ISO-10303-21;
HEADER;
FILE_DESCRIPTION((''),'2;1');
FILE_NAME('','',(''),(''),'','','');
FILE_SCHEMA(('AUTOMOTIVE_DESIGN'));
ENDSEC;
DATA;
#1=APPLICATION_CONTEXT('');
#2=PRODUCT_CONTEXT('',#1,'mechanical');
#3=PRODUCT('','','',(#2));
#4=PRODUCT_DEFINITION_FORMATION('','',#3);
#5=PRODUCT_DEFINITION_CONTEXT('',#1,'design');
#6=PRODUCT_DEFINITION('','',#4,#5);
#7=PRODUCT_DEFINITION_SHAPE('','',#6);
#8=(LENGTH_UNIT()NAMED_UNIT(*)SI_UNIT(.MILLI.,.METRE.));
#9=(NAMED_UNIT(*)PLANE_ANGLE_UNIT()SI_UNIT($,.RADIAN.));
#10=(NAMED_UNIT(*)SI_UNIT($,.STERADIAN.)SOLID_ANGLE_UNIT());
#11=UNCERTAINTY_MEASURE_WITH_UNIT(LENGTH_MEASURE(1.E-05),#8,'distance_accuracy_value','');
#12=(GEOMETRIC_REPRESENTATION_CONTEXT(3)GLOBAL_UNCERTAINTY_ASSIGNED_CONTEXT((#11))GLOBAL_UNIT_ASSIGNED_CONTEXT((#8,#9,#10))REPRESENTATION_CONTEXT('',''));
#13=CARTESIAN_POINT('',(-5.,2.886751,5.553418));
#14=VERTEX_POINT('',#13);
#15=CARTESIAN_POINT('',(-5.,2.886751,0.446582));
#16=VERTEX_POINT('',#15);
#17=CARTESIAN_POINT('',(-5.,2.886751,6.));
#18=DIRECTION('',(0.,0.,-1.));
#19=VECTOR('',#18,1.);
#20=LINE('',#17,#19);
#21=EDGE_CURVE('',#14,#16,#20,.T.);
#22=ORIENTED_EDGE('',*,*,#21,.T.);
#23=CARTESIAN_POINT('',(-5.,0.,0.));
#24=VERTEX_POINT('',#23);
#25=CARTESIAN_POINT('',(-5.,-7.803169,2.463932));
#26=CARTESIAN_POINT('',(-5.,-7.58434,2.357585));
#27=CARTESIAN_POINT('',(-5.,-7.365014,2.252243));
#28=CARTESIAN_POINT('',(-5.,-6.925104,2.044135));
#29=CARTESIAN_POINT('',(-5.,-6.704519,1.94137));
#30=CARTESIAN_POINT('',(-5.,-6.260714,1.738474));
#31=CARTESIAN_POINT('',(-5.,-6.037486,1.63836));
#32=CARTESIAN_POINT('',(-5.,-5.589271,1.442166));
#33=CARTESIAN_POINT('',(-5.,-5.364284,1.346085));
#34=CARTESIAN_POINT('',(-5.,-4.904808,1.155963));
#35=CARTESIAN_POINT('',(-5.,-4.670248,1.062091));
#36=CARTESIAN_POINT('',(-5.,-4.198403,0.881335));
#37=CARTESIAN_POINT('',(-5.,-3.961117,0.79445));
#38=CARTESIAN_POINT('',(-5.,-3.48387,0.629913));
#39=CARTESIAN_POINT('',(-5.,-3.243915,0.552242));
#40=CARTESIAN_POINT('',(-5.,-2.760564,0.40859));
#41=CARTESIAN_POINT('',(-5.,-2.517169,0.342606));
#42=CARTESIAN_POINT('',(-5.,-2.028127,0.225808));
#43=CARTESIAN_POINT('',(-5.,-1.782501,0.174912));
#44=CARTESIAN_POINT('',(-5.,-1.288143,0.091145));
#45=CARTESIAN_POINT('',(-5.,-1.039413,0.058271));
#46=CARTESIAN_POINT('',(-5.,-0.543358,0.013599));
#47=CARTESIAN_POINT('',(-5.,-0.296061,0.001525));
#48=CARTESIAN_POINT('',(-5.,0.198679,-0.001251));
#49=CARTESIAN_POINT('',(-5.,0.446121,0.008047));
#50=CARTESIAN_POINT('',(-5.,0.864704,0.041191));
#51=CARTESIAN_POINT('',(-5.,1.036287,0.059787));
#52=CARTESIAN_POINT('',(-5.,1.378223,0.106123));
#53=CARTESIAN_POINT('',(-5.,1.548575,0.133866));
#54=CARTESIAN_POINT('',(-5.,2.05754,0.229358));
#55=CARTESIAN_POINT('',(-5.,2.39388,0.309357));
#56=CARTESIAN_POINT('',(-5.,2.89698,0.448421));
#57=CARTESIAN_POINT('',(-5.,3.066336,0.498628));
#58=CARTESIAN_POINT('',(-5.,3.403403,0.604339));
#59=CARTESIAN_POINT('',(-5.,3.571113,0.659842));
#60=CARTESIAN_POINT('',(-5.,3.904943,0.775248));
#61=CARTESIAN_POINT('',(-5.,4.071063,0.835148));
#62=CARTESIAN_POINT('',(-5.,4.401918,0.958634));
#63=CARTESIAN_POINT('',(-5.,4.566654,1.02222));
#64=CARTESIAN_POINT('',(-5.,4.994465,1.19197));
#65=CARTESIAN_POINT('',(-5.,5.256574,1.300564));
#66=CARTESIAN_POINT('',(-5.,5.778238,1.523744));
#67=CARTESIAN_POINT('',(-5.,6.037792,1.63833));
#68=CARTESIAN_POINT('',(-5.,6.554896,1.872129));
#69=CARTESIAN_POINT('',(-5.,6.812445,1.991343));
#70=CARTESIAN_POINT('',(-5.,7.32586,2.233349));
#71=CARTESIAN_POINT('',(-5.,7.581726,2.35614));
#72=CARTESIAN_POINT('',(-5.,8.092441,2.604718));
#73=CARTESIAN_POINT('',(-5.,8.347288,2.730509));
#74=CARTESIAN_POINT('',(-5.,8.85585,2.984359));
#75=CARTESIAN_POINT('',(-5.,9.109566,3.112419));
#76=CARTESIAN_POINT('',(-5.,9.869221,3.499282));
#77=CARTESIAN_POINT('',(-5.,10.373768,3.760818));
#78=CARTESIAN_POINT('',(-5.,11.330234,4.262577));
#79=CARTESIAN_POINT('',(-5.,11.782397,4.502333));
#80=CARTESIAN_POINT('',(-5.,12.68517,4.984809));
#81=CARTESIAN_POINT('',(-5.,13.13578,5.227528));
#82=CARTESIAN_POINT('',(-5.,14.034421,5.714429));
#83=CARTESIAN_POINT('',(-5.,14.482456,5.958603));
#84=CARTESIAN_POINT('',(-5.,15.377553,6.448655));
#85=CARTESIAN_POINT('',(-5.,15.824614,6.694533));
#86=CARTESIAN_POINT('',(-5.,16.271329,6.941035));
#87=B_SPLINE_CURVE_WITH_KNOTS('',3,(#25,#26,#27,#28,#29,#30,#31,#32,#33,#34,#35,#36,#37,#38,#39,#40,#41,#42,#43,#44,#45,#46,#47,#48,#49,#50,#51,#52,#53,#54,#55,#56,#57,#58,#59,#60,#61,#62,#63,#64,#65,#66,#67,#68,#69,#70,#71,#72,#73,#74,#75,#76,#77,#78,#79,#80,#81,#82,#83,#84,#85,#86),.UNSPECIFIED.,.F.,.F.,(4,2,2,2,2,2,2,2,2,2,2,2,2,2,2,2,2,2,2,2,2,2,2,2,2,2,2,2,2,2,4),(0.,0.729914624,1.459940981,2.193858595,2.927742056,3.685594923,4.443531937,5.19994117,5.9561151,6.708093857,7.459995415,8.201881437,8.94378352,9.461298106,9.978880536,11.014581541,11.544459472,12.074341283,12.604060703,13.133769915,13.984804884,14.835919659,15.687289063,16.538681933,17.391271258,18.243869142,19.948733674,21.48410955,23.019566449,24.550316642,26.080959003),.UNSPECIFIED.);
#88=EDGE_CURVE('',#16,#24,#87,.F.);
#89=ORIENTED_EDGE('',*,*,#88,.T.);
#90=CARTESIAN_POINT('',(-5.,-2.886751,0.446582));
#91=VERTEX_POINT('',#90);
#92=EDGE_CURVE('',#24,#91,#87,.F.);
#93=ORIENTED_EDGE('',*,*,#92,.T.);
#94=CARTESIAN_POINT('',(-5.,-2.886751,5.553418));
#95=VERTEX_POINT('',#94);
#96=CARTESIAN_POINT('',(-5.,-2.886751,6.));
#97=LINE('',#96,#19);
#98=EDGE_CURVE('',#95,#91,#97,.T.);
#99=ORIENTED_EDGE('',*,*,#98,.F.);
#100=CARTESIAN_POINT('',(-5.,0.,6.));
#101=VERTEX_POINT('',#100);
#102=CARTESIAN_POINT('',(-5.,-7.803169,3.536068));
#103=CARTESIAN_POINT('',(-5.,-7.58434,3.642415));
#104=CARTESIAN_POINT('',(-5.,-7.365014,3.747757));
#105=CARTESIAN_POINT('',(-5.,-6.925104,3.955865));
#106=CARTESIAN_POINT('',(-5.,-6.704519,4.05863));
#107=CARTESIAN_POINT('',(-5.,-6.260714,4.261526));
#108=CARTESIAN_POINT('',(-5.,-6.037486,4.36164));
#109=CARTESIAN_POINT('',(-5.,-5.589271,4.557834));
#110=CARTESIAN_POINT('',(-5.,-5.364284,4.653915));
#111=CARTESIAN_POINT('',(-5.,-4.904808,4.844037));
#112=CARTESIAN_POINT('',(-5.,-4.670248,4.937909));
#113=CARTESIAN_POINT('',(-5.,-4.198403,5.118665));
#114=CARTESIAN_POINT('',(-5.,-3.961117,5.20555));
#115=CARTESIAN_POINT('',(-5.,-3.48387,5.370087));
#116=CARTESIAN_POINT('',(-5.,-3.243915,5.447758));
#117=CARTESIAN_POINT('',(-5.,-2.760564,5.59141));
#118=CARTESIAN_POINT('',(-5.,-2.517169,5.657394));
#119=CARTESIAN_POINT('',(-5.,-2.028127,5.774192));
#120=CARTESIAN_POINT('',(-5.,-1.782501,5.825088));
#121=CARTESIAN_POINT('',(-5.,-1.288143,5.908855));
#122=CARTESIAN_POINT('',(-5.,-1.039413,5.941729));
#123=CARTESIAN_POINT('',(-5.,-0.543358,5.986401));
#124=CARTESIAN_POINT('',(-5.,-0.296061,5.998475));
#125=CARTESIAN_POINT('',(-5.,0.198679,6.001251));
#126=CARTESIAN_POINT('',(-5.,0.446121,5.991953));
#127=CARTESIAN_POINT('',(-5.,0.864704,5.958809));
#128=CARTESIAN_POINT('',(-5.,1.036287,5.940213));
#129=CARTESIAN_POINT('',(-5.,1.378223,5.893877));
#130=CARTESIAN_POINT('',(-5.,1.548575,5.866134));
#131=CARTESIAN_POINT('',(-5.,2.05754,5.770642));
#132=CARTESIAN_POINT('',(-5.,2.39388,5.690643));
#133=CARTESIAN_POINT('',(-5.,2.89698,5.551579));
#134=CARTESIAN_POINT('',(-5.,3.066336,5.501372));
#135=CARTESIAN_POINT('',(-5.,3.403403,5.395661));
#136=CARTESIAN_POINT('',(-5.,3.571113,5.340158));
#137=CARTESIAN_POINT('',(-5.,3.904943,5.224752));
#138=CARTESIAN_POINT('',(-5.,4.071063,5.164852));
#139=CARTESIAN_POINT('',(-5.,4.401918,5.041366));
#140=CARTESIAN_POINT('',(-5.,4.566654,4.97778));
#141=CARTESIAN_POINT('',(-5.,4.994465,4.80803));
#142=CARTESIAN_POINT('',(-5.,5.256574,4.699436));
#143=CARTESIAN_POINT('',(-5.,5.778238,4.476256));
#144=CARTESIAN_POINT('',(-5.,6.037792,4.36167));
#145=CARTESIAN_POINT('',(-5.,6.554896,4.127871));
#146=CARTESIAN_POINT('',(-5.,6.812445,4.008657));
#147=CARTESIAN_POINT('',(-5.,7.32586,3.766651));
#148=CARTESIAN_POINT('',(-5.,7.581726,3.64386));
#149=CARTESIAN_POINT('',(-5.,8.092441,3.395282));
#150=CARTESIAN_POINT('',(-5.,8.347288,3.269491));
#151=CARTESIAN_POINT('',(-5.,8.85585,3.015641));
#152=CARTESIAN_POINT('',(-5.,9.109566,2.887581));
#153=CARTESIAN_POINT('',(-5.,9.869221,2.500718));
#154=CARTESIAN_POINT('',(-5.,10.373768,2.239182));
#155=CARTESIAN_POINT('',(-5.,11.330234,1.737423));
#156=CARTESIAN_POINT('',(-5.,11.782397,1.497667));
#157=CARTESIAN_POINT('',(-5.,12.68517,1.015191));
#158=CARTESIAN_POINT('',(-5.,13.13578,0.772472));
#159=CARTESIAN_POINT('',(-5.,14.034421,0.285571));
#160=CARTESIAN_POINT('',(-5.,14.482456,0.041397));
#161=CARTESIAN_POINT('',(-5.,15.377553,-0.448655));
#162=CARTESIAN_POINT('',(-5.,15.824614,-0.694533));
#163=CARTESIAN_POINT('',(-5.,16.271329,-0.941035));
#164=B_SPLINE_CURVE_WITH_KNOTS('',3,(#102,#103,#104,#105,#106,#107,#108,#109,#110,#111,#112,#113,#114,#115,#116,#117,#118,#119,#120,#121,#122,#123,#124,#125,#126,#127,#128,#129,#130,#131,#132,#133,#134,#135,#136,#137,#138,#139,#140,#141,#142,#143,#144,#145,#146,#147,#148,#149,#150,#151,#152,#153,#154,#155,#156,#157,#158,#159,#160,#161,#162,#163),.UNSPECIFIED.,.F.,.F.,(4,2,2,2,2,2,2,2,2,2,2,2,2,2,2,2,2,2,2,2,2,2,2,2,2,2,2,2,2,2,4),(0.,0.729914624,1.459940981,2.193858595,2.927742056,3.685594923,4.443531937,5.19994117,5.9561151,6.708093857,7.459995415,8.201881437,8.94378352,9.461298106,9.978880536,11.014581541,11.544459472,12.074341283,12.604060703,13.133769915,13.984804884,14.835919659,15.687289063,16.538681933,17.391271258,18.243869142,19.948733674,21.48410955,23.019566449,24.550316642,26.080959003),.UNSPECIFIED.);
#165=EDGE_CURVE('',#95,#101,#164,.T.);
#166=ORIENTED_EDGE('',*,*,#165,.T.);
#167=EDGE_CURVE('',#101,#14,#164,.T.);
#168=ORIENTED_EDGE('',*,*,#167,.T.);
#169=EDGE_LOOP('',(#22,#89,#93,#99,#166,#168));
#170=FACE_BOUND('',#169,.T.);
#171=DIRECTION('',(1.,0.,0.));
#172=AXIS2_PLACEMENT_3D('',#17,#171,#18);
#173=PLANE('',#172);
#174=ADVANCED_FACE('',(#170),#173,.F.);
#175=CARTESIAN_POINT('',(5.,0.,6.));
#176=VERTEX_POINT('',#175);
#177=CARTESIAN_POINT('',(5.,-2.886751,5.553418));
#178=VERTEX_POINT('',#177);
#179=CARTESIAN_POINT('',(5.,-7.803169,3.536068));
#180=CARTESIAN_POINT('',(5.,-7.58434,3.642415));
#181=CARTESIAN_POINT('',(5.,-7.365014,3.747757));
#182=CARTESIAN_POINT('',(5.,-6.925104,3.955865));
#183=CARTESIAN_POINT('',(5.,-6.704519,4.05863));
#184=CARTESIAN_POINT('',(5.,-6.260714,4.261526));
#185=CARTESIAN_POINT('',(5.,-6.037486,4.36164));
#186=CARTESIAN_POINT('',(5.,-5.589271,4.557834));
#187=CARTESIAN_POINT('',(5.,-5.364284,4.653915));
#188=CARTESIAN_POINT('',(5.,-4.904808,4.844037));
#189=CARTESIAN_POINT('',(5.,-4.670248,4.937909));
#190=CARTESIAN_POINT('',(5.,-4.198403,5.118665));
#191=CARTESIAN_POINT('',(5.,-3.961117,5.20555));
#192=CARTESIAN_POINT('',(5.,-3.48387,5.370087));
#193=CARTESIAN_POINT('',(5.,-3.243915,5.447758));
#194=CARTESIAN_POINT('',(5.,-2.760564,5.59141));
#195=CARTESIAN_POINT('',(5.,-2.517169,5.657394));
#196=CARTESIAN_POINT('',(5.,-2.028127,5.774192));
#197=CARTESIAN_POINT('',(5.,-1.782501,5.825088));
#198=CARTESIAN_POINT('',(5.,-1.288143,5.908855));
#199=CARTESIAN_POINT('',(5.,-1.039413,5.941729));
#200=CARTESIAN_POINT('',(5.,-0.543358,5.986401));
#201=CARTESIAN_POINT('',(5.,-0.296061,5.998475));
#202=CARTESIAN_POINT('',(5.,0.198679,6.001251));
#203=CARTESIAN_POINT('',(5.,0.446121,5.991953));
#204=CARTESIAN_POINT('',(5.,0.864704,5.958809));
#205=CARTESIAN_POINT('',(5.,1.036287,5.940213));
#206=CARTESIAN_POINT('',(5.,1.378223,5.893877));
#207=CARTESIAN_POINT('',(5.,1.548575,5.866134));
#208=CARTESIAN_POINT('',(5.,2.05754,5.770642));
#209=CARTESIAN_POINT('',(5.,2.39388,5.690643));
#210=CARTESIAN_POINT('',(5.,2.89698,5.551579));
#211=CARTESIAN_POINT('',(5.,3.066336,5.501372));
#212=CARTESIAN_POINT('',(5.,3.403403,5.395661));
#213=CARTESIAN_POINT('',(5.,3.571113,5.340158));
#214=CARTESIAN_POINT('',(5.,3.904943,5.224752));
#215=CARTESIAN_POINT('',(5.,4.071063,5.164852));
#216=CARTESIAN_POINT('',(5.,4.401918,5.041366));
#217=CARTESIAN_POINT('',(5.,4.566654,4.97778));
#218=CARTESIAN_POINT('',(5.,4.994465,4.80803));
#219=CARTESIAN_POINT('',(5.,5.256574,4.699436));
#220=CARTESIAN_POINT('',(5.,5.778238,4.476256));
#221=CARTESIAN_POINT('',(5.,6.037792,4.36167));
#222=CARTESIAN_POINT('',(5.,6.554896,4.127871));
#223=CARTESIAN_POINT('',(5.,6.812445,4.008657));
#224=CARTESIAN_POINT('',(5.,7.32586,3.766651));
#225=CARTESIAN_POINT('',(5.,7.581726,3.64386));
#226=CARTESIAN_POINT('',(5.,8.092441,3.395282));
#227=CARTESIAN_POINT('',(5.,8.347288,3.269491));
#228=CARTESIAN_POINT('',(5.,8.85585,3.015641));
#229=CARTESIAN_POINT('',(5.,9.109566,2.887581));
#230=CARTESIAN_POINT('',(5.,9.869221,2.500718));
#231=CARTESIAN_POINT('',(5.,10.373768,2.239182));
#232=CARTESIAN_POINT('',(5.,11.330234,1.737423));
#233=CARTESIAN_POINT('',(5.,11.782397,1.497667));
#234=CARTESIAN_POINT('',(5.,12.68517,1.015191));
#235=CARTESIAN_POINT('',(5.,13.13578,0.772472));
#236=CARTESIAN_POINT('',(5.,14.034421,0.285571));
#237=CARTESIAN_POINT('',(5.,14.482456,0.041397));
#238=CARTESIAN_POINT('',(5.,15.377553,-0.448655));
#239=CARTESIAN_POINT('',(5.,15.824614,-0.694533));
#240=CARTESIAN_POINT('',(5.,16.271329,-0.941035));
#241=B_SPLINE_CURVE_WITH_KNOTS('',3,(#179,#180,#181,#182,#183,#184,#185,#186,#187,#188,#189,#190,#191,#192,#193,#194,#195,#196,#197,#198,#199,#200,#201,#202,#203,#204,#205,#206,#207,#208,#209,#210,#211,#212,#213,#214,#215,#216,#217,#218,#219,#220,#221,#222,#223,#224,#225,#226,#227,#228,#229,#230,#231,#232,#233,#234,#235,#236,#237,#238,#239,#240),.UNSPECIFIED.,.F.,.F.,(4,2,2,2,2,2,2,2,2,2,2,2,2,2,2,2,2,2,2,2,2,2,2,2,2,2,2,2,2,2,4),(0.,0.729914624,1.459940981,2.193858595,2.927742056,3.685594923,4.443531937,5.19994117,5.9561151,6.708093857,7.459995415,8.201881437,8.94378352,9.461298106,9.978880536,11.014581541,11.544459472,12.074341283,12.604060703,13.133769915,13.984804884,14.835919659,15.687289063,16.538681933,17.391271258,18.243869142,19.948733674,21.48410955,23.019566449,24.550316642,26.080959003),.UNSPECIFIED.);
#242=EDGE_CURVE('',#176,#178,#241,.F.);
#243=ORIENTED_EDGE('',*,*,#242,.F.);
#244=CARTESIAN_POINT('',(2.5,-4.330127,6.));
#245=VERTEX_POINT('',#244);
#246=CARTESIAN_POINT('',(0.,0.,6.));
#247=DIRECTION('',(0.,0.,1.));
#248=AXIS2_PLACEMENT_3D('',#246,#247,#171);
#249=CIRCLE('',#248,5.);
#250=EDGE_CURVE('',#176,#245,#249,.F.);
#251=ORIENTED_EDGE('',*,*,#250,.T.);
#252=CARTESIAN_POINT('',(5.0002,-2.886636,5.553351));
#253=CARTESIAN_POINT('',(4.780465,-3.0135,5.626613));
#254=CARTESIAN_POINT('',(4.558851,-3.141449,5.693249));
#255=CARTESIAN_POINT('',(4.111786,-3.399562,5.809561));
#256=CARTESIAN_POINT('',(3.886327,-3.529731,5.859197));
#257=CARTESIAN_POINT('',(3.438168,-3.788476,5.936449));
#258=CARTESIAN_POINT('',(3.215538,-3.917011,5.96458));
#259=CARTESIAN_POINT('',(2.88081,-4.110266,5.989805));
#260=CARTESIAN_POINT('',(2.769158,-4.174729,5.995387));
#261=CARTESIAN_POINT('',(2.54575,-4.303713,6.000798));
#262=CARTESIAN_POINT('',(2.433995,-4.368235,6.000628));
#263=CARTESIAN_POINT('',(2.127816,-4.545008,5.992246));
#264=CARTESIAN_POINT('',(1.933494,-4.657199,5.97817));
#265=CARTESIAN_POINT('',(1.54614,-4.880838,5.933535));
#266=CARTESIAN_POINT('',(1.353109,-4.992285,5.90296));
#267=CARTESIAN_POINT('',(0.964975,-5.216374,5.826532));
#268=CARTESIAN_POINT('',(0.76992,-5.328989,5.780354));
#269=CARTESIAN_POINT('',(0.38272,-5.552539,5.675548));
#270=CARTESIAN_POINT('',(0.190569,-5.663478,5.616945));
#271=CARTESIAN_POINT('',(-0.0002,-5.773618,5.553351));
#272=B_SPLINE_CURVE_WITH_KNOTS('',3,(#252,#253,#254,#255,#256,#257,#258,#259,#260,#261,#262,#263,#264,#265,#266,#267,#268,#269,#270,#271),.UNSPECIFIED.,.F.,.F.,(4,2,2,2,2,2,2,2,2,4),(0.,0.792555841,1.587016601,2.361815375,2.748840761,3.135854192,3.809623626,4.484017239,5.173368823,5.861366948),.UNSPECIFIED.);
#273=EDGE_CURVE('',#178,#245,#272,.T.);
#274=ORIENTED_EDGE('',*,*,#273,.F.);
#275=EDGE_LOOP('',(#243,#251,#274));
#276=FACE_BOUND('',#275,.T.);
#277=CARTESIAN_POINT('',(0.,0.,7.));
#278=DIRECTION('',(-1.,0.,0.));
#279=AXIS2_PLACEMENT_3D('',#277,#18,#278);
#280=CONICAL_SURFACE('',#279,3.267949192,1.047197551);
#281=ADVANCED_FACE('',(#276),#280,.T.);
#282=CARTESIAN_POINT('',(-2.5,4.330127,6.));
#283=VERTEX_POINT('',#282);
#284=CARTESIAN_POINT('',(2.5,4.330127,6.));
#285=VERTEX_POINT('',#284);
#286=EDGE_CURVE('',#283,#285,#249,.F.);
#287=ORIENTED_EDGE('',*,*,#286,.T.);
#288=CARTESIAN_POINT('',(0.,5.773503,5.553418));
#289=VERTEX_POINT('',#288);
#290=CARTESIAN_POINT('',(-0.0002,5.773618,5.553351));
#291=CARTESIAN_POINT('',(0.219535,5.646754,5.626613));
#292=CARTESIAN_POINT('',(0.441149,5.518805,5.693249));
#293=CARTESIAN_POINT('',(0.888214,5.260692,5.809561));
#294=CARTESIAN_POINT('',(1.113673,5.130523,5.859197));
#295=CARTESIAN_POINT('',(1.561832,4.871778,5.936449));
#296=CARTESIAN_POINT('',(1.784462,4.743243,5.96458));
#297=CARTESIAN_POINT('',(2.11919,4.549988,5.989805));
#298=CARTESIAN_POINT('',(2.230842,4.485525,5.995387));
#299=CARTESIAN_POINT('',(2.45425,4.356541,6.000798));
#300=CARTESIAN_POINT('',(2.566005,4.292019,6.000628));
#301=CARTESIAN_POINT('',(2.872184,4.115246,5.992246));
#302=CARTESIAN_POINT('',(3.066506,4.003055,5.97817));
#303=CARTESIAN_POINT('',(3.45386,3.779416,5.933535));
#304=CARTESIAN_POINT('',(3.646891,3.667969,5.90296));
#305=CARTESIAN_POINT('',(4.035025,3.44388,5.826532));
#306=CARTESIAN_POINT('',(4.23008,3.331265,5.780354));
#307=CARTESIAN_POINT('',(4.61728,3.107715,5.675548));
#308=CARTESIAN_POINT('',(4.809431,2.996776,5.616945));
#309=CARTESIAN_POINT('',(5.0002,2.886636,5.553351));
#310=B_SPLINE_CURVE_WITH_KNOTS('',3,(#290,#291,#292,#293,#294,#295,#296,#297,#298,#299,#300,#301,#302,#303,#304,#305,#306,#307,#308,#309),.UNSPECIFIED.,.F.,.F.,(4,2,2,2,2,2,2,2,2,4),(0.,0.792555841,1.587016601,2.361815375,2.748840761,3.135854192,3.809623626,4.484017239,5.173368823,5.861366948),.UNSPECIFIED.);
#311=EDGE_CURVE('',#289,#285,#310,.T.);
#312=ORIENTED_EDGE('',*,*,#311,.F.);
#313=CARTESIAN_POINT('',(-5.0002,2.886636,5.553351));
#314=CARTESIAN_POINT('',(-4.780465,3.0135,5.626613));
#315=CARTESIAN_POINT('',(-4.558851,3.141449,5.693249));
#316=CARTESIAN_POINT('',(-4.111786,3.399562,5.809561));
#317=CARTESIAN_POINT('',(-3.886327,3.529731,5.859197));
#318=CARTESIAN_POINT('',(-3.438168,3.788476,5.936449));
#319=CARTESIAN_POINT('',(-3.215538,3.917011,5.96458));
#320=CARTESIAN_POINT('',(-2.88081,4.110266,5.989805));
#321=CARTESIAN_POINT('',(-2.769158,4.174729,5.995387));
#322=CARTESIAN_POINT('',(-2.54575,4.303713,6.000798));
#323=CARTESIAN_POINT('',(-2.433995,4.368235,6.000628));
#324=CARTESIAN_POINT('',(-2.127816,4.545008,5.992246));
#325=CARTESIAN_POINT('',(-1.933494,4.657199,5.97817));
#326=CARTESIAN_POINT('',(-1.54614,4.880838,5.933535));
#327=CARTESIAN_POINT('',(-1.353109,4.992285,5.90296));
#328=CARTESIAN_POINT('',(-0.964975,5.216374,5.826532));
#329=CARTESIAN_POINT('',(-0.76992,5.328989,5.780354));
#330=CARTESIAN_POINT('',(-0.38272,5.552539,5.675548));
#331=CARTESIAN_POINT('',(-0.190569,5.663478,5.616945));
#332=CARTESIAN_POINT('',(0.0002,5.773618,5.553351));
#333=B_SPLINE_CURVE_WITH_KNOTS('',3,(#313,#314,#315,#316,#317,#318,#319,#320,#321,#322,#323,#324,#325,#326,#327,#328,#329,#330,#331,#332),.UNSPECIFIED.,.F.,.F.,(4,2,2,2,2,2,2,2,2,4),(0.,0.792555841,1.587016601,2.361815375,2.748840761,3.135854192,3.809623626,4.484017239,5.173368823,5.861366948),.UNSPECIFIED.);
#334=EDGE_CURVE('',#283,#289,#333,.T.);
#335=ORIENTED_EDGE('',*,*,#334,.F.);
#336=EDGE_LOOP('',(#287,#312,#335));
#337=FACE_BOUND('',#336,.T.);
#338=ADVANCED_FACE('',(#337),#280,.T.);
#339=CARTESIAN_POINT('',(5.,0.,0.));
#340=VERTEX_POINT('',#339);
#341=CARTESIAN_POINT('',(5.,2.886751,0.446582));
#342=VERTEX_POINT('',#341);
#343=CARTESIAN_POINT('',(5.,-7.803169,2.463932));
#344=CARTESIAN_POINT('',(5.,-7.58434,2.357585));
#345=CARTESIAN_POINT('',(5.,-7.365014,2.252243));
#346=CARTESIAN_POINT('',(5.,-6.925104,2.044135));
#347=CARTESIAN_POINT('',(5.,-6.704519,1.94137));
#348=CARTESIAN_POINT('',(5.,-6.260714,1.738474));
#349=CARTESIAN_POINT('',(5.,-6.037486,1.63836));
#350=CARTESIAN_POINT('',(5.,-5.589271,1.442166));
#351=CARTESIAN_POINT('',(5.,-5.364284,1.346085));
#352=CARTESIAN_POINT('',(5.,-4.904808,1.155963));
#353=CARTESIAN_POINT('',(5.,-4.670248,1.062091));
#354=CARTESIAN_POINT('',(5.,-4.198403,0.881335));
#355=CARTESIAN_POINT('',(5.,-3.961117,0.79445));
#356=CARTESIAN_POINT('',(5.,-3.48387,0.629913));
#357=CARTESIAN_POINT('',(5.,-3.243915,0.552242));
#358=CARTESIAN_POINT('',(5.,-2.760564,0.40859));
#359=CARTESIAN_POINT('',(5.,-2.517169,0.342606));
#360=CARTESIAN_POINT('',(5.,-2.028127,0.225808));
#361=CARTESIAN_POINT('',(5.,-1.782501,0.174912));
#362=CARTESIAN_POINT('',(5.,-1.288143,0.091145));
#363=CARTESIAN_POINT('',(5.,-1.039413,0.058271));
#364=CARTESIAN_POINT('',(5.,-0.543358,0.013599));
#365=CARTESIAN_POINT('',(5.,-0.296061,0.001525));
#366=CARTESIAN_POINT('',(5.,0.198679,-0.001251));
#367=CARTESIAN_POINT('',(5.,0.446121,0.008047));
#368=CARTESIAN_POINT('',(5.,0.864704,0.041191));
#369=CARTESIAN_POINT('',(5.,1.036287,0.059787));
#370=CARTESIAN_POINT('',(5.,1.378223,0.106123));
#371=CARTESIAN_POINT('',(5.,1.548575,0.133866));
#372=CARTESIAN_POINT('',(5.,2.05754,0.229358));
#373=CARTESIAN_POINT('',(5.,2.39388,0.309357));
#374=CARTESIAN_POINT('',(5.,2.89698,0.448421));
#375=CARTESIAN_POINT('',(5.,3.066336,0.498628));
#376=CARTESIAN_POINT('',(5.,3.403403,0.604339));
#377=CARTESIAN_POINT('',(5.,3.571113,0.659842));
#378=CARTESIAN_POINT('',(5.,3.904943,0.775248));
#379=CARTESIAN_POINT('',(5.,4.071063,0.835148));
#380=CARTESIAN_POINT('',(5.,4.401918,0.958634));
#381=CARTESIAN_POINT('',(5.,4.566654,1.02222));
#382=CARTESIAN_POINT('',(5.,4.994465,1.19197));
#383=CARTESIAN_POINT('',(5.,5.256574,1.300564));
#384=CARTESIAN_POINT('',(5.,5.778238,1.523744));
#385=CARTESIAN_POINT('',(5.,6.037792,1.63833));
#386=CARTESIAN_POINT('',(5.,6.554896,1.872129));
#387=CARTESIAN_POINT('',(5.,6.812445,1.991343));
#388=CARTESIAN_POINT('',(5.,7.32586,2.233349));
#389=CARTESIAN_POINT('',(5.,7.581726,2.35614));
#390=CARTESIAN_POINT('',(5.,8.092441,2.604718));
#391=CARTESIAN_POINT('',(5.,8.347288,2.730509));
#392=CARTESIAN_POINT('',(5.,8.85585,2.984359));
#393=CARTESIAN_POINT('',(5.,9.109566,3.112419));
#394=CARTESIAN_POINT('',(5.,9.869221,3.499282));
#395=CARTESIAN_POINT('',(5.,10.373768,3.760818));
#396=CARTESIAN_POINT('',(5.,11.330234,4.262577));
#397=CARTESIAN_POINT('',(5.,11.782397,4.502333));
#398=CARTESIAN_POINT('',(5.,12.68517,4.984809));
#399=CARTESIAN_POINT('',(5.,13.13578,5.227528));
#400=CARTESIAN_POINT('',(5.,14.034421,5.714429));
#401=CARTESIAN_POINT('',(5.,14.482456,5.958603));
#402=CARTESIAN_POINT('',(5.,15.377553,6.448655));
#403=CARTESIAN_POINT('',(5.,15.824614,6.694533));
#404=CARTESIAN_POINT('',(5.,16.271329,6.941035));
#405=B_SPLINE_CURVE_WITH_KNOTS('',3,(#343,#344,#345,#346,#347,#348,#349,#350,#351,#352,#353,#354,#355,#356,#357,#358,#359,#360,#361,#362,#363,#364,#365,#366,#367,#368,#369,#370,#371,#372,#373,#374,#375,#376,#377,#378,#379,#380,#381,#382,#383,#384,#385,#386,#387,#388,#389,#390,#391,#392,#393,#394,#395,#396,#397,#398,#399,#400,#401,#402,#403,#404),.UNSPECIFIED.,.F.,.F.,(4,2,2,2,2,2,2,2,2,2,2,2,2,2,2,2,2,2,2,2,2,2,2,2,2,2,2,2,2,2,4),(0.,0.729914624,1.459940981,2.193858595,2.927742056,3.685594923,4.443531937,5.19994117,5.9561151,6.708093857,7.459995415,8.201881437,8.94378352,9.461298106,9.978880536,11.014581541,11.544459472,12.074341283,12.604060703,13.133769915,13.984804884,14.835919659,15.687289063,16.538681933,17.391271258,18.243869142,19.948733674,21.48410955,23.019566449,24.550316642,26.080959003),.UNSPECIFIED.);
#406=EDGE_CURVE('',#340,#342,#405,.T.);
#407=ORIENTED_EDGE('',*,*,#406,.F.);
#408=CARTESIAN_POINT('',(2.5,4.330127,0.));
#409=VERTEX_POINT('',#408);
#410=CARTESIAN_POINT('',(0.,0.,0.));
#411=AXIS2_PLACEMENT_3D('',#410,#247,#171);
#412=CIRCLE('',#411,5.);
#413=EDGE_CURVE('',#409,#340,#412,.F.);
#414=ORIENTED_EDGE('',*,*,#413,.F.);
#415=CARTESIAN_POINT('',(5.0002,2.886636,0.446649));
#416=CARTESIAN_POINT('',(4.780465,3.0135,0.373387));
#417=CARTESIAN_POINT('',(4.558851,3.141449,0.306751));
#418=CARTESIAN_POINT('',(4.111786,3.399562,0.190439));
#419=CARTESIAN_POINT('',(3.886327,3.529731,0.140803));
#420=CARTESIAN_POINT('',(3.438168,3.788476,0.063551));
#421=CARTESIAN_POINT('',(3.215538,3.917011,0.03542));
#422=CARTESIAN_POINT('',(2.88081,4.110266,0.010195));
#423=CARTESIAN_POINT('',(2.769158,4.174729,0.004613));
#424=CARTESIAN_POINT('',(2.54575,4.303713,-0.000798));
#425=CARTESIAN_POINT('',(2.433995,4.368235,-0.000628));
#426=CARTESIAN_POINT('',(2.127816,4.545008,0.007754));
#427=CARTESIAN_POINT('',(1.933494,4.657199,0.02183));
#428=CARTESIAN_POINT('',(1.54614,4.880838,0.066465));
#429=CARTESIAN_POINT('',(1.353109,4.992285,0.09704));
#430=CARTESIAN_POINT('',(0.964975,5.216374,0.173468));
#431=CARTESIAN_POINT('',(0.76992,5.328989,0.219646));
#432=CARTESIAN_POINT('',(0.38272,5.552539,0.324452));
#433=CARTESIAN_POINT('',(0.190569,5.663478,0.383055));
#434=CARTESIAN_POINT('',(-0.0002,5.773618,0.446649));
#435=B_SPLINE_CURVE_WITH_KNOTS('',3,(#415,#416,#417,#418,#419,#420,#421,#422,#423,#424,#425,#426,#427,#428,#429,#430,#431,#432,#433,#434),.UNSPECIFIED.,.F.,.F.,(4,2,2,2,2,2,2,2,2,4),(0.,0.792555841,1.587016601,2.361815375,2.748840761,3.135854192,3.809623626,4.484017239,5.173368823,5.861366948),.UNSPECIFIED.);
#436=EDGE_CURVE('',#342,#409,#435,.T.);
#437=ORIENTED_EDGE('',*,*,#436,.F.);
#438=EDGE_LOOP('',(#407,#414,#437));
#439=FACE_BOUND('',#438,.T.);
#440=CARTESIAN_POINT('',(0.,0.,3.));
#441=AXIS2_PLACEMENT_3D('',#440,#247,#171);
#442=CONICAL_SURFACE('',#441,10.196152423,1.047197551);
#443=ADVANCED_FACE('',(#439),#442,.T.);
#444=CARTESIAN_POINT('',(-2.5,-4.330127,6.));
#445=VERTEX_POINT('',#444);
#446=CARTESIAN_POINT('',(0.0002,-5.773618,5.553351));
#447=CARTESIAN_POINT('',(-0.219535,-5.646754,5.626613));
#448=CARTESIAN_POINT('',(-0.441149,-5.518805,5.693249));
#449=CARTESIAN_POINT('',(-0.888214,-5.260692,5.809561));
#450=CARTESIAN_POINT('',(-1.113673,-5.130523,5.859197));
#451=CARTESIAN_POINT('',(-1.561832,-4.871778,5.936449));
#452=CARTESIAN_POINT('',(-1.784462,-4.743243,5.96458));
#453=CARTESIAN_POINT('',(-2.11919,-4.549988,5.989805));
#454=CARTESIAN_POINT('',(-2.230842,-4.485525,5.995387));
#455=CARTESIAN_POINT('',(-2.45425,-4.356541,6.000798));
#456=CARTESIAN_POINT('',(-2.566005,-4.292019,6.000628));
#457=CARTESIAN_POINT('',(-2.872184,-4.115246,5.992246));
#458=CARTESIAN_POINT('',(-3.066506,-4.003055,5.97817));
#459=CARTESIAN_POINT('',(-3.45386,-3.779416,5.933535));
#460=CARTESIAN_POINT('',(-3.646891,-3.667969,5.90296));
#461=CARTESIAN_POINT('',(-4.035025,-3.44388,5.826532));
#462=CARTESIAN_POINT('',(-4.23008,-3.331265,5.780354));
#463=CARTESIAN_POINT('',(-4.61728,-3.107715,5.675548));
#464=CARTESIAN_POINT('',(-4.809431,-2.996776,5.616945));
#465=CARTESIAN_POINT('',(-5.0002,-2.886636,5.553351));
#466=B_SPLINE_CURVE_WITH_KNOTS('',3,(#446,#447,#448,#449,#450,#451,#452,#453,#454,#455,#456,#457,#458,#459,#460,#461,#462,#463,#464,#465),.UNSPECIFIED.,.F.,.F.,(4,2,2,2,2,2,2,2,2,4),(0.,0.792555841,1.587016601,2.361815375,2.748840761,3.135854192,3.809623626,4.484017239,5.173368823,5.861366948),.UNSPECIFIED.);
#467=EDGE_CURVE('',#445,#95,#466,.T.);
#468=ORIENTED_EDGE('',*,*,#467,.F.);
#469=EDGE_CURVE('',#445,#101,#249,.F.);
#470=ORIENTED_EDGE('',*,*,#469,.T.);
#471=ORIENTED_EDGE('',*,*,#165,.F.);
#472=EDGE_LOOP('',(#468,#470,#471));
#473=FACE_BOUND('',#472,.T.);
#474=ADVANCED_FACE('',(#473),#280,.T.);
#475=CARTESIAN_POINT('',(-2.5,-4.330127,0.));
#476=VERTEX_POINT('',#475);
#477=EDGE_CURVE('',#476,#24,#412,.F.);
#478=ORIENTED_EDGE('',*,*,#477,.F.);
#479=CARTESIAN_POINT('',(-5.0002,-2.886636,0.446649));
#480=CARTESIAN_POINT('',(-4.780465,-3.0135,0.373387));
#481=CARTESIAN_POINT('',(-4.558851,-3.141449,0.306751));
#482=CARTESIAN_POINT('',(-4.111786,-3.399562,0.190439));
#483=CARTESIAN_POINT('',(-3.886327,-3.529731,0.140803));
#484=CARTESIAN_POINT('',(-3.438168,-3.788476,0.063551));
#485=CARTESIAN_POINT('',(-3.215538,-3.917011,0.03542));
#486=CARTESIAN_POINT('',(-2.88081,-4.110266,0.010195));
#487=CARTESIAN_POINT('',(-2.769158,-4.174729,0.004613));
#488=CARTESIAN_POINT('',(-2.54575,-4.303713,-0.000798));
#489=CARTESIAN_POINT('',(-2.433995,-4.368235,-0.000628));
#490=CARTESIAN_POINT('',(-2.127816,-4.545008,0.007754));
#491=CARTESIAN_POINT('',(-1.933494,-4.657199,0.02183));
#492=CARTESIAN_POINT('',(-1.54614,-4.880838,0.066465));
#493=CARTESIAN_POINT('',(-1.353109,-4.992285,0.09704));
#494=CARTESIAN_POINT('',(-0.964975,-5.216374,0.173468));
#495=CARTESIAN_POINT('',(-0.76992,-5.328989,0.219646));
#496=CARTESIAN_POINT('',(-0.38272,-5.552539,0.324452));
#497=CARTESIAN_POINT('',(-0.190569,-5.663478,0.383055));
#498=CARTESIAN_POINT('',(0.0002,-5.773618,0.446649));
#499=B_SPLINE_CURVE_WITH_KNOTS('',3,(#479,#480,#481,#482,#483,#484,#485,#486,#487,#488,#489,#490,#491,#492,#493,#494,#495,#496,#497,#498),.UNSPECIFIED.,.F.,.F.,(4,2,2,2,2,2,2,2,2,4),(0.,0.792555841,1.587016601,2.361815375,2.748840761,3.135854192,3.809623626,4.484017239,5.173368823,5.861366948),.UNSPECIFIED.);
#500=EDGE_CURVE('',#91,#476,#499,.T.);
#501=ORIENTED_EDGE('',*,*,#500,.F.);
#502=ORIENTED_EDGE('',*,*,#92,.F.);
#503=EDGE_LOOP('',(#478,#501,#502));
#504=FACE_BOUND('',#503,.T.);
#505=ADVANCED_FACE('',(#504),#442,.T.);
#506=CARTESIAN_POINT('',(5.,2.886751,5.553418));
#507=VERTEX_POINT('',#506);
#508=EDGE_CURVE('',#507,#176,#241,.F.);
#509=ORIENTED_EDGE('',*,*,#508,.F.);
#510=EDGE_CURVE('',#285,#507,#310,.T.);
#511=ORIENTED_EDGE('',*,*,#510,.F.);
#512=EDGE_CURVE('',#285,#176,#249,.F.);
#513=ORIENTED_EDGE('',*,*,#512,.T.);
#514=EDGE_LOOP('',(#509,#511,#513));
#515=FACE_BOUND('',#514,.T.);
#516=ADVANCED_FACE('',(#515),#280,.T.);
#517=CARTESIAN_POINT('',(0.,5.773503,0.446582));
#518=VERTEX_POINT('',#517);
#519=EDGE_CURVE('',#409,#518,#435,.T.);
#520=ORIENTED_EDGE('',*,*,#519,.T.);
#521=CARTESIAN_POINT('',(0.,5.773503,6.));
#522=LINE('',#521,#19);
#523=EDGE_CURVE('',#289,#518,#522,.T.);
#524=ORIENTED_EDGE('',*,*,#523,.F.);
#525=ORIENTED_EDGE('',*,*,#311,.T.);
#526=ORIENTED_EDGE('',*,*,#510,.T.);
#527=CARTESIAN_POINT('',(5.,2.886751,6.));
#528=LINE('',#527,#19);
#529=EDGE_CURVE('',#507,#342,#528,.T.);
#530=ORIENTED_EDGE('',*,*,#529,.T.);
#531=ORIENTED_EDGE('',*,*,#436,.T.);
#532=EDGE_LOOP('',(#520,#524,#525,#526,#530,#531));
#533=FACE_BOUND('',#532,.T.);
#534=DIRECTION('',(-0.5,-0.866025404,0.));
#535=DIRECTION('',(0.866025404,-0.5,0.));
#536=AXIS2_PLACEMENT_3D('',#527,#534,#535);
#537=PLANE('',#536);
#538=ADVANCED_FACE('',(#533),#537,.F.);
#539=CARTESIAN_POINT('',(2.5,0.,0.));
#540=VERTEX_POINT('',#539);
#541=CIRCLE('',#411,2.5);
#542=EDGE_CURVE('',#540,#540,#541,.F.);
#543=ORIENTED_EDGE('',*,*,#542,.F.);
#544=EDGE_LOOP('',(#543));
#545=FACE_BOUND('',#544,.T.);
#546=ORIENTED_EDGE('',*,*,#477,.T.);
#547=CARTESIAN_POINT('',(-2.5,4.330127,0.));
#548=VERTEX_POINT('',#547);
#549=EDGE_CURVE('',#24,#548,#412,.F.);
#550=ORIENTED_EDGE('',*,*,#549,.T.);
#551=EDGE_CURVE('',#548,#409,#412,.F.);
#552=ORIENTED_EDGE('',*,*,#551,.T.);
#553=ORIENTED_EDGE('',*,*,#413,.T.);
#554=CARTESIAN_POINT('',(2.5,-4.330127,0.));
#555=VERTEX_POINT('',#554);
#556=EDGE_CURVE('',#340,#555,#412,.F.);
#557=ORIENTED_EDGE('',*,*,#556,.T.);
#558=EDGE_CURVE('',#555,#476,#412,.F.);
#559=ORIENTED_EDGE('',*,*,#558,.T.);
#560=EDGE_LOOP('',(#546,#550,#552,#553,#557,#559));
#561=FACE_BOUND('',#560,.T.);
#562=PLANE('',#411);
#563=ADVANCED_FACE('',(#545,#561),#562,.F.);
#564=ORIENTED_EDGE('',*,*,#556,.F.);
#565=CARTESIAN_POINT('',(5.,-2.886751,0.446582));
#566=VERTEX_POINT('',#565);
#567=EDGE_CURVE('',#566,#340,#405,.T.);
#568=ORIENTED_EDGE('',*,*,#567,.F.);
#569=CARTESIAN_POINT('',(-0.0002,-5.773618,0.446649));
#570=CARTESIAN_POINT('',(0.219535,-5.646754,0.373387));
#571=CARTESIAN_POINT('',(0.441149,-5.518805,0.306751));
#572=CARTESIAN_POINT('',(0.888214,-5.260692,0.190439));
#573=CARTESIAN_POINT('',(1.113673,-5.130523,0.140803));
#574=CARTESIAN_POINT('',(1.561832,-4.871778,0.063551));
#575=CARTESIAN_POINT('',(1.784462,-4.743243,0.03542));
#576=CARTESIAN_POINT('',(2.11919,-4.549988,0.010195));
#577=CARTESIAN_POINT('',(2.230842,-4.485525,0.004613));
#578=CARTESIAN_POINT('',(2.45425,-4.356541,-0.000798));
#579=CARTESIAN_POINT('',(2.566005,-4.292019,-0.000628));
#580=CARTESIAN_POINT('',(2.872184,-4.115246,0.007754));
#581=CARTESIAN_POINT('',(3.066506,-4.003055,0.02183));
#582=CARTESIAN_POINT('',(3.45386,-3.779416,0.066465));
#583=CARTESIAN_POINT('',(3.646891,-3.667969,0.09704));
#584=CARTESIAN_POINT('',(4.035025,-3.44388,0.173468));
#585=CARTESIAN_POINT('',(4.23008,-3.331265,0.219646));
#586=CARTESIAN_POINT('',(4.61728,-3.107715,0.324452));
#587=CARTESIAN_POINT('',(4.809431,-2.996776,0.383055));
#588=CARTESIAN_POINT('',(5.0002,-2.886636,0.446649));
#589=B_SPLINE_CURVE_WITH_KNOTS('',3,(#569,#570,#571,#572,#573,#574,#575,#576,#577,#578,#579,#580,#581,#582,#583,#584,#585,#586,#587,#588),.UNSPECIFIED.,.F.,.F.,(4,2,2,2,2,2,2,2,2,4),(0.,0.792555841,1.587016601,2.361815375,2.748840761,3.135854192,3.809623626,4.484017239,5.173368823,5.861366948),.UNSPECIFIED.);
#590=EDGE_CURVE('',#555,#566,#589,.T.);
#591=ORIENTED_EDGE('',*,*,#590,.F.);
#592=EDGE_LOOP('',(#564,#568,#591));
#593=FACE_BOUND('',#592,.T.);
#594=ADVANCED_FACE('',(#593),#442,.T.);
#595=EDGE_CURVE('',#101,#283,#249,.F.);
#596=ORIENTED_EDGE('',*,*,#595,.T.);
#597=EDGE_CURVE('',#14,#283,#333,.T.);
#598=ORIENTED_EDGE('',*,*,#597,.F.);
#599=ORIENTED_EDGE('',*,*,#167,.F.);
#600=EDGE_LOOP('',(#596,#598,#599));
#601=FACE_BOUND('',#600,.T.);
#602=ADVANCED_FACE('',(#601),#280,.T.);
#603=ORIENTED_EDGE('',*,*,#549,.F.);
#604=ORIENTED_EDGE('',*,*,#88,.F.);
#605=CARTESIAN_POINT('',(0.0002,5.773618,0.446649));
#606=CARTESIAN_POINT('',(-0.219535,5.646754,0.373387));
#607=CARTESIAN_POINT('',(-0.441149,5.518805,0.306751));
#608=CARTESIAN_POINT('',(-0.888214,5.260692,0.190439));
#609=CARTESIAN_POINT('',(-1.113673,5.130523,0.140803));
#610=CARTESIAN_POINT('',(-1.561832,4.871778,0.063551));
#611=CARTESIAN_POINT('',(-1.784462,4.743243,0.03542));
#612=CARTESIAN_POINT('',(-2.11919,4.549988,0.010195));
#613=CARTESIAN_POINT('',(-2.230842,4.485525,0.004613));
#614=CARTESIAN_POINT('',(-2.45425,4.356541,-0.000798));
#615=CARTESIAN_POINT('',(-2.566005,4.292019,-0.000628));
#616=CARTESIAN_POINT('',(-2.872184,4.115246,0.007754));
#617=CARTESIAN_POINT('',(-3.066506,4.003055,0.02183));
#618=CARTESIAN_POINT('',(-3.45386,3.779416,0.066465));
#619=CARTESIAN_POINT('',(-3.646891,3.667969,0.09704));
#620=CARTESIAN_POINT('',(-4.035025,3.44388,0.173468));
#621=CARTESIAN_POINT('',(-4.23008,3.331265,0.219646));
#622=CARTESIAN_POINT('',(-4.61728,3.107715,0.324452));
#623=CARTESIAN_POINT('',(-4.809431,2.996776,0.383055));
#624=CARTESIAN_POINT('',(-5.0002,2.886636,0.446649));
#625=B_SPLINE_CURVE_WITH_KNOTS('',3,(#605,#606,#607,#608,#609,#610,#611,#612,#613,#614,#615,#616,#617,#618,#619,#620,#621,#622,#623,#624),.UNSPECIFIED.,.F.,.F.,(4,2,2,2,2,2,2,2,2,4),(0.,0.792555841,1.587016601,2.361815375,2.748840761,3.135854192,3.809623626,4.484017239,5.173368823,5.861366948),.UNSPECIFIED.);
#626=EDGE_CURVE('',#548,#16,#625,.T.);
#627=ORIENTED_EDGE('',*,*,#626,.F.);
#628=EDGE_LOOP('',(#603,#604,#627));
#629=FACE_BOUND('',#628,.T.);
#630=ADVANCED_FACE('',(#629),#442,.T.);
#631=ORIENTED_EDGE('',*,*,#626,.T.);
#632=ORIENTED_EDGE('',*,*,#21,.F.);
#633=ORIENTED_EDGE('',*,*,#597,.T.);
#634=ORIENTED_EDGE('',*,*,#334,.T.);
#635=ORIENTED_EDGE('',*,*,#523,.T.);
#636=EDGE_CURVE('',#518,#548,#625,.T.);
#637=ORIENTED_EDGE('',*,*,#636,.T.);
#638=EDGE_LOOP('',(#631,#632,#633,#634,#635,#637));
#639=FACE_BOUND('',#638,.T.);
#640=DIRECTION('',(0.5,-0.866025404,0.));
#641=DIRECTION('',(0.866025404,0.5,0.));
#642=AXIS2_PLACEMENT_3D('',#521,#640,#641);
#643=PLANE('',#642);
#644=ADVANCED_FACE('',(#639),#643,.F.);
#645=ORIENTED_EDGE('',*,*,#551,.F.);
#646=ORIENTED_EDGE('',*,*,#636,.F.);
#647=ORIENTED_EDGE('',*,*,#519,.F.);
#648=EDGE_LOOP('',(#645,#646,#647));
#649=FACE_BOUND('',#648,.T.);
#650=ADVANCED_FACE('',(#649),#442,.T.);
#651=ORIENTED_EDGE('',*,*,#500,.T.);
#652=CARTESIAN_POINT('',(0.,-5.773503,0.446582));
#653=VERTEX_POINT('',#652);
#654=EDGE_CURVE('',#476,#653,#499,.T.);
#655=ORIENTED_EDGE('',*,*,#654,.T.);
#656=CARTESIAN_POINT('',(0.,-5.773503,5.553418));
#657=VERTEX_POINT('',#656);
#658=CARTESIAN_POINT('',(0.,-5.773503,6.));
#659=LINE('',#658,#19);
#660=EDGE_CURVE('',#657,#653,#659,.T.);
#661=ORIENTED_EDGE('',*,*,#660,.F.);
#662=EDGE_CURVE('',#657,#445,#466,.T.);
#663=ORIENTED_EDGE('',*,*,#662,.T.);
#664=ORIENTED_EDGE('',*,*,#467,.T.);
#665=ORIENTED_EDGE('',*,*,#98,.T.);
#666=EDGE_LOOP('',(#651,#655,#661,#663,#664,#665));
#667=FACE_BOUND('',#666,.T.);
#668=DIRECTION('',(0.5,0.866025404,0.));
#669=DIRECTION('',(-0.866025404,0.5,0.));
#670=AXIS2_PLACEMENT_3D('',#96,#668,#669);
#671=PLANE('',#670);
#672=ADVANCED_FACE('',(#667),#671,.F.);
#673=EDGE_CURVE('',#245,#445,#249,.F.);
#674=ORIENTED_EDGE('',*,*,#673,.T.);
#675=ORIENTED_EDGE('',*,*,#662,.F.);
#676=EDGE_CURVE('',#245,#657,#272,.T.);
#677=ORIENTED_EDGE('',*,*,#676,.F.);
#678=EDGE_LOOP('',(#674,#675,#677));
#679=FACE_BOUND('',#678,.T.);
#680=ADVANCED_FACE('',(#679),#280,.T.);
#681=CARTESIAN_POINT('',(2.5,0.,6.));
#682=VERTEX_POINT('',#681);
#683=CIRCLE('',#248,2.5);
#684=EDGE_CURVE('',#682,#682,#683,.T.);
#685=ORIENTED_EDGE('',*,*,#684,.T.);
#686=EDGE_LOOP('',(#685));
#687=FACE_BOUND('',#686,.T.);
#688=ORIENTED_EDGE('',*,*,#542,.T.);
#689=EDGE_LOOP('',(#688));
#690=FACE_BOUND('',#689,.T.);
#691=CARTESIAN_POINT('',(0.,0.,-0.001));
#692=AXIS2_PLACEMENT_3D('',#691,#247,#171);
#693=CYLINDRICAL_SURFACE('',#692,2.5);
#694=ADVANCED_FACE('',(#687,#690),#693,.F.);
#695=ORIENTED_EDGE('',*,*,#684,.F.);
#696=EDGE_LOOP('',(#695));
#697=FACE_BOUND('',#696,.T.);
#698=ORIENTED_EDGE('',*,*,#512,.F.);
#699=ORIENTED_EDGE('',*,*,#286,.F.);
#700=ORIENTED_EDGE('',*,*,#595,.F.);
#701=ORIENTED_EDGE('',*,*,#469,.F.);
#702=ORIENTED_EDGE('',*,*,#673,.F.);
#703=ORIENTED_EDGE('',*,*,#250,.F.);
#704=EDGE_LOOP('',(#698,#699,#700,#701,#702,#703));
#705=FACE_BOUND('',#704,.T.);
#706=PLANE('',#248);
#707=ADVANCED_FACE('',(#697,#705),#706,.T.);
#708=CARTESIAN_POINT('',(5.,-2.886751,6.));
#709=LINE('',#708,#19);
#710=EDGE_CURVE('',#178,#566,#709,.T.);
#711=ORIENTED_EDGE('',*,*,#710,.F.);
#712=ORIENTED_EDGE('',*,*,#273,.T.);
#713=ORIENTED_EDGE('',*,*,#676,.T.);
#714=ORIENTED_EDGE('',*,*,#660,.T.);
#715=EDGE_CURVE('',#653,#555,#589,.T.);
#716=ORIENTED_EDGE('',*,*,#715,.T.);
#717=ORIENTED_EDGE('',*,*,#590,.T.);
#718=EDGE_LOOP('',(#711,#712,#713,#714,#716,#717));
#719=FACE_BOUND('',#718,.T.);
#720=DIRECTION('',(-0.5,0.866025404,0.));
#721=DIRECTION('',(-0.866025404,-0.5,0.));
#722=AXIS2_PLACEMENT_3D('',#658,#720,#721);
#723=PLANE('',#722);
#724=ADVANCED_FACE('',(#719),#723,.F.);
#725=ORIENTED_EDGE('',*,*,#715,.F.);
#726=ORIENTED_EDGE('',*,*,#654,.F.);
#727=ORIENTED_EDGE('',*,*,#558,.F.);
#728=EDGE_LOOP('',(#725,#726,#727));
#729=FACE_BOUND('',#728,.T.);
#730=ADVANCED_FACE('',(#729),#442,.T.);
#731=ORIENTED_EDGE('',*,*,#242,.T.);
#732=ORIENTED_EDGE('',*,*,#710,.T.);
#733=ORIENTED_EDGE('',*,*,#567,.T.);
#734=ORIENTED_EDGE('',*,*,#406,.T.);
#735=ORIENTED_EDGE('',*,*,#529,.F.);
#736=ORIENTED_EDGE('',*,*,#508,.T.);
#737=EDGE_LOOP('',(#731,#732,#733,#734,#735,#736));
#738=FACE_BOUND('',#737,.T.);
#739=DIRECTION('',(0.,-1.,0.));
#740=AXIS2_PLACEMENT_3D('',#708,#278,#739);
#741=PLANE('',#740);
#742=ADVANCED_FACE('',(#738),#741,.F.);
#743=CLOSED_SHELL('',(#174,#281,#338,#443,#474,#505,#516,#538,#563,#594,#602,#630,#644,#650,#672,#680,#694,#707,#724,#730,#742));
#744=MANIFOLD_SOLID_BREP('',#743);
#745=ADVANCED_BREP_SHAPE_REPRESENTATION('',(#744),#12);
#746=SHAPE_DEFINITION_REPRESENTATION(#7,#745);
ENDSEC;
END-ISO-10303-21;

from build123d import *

# Parameters (mm, degrees)
BOSS_EXTRU_1_DEPTH      = 6
ENL_V_MAT_EXTRU_1_REACH = 8
ESQUISSE2_R             = 2.5


with BuildPart() as part:
    # Esquisse1 → Boss.-Extru.1 (new body)
    with BuildSketch(Plane.XY):
        Polygon((0, 5.773502692), (-5, 2.886751346), (-5, -2.886751346), (0, -5.773502692), (5, -2.886751346), (5, 2.886751346), align=None)
    extrude(amount=BOSS_EXTRU_1_DEPTH)

    # Esquisse2 → Enlèv. mat.-Extru.1 (cut, up to next)
    with BuildSketch(Plane.XY.offset(6), mode=Mode.PRIVATE) as enl_v_mat_extru_1_sk1:
        Circle(ESQUISSE2_R)
    enl_v_mat_extru_1_tool1 = extrude(enl_v_mat_extru_1_sk1.sketch, amount=-ENL_V_MAT_EXTRU_1_REACH, mode=Mode.PRIVATE) & part.part
    add(enl_v_mat_extru_1_tool1.solids().sort_by_distance((0, 0, 6))[0], mode=Mode.SUBTRACT)

    # Esquisse4 → Enlèvement de matière-Révolution8 (revolve, cut)
    with BuildSketch(Plane(origin=(0, 0, 0), x_dir=(1, 0, 0), z_dir=(0, 1, 0))):
        Polygon((-10.196152423, -3), (-3.267949192, 1), (-11.196152423, 1), (-11.196152423, -7), (-3.267949192, -7), align=None)
    revolve(axis=Axis((0, 0, 0), (0, 0, 1)), mode=Mode.SUBTRACT)


solid = part.part
